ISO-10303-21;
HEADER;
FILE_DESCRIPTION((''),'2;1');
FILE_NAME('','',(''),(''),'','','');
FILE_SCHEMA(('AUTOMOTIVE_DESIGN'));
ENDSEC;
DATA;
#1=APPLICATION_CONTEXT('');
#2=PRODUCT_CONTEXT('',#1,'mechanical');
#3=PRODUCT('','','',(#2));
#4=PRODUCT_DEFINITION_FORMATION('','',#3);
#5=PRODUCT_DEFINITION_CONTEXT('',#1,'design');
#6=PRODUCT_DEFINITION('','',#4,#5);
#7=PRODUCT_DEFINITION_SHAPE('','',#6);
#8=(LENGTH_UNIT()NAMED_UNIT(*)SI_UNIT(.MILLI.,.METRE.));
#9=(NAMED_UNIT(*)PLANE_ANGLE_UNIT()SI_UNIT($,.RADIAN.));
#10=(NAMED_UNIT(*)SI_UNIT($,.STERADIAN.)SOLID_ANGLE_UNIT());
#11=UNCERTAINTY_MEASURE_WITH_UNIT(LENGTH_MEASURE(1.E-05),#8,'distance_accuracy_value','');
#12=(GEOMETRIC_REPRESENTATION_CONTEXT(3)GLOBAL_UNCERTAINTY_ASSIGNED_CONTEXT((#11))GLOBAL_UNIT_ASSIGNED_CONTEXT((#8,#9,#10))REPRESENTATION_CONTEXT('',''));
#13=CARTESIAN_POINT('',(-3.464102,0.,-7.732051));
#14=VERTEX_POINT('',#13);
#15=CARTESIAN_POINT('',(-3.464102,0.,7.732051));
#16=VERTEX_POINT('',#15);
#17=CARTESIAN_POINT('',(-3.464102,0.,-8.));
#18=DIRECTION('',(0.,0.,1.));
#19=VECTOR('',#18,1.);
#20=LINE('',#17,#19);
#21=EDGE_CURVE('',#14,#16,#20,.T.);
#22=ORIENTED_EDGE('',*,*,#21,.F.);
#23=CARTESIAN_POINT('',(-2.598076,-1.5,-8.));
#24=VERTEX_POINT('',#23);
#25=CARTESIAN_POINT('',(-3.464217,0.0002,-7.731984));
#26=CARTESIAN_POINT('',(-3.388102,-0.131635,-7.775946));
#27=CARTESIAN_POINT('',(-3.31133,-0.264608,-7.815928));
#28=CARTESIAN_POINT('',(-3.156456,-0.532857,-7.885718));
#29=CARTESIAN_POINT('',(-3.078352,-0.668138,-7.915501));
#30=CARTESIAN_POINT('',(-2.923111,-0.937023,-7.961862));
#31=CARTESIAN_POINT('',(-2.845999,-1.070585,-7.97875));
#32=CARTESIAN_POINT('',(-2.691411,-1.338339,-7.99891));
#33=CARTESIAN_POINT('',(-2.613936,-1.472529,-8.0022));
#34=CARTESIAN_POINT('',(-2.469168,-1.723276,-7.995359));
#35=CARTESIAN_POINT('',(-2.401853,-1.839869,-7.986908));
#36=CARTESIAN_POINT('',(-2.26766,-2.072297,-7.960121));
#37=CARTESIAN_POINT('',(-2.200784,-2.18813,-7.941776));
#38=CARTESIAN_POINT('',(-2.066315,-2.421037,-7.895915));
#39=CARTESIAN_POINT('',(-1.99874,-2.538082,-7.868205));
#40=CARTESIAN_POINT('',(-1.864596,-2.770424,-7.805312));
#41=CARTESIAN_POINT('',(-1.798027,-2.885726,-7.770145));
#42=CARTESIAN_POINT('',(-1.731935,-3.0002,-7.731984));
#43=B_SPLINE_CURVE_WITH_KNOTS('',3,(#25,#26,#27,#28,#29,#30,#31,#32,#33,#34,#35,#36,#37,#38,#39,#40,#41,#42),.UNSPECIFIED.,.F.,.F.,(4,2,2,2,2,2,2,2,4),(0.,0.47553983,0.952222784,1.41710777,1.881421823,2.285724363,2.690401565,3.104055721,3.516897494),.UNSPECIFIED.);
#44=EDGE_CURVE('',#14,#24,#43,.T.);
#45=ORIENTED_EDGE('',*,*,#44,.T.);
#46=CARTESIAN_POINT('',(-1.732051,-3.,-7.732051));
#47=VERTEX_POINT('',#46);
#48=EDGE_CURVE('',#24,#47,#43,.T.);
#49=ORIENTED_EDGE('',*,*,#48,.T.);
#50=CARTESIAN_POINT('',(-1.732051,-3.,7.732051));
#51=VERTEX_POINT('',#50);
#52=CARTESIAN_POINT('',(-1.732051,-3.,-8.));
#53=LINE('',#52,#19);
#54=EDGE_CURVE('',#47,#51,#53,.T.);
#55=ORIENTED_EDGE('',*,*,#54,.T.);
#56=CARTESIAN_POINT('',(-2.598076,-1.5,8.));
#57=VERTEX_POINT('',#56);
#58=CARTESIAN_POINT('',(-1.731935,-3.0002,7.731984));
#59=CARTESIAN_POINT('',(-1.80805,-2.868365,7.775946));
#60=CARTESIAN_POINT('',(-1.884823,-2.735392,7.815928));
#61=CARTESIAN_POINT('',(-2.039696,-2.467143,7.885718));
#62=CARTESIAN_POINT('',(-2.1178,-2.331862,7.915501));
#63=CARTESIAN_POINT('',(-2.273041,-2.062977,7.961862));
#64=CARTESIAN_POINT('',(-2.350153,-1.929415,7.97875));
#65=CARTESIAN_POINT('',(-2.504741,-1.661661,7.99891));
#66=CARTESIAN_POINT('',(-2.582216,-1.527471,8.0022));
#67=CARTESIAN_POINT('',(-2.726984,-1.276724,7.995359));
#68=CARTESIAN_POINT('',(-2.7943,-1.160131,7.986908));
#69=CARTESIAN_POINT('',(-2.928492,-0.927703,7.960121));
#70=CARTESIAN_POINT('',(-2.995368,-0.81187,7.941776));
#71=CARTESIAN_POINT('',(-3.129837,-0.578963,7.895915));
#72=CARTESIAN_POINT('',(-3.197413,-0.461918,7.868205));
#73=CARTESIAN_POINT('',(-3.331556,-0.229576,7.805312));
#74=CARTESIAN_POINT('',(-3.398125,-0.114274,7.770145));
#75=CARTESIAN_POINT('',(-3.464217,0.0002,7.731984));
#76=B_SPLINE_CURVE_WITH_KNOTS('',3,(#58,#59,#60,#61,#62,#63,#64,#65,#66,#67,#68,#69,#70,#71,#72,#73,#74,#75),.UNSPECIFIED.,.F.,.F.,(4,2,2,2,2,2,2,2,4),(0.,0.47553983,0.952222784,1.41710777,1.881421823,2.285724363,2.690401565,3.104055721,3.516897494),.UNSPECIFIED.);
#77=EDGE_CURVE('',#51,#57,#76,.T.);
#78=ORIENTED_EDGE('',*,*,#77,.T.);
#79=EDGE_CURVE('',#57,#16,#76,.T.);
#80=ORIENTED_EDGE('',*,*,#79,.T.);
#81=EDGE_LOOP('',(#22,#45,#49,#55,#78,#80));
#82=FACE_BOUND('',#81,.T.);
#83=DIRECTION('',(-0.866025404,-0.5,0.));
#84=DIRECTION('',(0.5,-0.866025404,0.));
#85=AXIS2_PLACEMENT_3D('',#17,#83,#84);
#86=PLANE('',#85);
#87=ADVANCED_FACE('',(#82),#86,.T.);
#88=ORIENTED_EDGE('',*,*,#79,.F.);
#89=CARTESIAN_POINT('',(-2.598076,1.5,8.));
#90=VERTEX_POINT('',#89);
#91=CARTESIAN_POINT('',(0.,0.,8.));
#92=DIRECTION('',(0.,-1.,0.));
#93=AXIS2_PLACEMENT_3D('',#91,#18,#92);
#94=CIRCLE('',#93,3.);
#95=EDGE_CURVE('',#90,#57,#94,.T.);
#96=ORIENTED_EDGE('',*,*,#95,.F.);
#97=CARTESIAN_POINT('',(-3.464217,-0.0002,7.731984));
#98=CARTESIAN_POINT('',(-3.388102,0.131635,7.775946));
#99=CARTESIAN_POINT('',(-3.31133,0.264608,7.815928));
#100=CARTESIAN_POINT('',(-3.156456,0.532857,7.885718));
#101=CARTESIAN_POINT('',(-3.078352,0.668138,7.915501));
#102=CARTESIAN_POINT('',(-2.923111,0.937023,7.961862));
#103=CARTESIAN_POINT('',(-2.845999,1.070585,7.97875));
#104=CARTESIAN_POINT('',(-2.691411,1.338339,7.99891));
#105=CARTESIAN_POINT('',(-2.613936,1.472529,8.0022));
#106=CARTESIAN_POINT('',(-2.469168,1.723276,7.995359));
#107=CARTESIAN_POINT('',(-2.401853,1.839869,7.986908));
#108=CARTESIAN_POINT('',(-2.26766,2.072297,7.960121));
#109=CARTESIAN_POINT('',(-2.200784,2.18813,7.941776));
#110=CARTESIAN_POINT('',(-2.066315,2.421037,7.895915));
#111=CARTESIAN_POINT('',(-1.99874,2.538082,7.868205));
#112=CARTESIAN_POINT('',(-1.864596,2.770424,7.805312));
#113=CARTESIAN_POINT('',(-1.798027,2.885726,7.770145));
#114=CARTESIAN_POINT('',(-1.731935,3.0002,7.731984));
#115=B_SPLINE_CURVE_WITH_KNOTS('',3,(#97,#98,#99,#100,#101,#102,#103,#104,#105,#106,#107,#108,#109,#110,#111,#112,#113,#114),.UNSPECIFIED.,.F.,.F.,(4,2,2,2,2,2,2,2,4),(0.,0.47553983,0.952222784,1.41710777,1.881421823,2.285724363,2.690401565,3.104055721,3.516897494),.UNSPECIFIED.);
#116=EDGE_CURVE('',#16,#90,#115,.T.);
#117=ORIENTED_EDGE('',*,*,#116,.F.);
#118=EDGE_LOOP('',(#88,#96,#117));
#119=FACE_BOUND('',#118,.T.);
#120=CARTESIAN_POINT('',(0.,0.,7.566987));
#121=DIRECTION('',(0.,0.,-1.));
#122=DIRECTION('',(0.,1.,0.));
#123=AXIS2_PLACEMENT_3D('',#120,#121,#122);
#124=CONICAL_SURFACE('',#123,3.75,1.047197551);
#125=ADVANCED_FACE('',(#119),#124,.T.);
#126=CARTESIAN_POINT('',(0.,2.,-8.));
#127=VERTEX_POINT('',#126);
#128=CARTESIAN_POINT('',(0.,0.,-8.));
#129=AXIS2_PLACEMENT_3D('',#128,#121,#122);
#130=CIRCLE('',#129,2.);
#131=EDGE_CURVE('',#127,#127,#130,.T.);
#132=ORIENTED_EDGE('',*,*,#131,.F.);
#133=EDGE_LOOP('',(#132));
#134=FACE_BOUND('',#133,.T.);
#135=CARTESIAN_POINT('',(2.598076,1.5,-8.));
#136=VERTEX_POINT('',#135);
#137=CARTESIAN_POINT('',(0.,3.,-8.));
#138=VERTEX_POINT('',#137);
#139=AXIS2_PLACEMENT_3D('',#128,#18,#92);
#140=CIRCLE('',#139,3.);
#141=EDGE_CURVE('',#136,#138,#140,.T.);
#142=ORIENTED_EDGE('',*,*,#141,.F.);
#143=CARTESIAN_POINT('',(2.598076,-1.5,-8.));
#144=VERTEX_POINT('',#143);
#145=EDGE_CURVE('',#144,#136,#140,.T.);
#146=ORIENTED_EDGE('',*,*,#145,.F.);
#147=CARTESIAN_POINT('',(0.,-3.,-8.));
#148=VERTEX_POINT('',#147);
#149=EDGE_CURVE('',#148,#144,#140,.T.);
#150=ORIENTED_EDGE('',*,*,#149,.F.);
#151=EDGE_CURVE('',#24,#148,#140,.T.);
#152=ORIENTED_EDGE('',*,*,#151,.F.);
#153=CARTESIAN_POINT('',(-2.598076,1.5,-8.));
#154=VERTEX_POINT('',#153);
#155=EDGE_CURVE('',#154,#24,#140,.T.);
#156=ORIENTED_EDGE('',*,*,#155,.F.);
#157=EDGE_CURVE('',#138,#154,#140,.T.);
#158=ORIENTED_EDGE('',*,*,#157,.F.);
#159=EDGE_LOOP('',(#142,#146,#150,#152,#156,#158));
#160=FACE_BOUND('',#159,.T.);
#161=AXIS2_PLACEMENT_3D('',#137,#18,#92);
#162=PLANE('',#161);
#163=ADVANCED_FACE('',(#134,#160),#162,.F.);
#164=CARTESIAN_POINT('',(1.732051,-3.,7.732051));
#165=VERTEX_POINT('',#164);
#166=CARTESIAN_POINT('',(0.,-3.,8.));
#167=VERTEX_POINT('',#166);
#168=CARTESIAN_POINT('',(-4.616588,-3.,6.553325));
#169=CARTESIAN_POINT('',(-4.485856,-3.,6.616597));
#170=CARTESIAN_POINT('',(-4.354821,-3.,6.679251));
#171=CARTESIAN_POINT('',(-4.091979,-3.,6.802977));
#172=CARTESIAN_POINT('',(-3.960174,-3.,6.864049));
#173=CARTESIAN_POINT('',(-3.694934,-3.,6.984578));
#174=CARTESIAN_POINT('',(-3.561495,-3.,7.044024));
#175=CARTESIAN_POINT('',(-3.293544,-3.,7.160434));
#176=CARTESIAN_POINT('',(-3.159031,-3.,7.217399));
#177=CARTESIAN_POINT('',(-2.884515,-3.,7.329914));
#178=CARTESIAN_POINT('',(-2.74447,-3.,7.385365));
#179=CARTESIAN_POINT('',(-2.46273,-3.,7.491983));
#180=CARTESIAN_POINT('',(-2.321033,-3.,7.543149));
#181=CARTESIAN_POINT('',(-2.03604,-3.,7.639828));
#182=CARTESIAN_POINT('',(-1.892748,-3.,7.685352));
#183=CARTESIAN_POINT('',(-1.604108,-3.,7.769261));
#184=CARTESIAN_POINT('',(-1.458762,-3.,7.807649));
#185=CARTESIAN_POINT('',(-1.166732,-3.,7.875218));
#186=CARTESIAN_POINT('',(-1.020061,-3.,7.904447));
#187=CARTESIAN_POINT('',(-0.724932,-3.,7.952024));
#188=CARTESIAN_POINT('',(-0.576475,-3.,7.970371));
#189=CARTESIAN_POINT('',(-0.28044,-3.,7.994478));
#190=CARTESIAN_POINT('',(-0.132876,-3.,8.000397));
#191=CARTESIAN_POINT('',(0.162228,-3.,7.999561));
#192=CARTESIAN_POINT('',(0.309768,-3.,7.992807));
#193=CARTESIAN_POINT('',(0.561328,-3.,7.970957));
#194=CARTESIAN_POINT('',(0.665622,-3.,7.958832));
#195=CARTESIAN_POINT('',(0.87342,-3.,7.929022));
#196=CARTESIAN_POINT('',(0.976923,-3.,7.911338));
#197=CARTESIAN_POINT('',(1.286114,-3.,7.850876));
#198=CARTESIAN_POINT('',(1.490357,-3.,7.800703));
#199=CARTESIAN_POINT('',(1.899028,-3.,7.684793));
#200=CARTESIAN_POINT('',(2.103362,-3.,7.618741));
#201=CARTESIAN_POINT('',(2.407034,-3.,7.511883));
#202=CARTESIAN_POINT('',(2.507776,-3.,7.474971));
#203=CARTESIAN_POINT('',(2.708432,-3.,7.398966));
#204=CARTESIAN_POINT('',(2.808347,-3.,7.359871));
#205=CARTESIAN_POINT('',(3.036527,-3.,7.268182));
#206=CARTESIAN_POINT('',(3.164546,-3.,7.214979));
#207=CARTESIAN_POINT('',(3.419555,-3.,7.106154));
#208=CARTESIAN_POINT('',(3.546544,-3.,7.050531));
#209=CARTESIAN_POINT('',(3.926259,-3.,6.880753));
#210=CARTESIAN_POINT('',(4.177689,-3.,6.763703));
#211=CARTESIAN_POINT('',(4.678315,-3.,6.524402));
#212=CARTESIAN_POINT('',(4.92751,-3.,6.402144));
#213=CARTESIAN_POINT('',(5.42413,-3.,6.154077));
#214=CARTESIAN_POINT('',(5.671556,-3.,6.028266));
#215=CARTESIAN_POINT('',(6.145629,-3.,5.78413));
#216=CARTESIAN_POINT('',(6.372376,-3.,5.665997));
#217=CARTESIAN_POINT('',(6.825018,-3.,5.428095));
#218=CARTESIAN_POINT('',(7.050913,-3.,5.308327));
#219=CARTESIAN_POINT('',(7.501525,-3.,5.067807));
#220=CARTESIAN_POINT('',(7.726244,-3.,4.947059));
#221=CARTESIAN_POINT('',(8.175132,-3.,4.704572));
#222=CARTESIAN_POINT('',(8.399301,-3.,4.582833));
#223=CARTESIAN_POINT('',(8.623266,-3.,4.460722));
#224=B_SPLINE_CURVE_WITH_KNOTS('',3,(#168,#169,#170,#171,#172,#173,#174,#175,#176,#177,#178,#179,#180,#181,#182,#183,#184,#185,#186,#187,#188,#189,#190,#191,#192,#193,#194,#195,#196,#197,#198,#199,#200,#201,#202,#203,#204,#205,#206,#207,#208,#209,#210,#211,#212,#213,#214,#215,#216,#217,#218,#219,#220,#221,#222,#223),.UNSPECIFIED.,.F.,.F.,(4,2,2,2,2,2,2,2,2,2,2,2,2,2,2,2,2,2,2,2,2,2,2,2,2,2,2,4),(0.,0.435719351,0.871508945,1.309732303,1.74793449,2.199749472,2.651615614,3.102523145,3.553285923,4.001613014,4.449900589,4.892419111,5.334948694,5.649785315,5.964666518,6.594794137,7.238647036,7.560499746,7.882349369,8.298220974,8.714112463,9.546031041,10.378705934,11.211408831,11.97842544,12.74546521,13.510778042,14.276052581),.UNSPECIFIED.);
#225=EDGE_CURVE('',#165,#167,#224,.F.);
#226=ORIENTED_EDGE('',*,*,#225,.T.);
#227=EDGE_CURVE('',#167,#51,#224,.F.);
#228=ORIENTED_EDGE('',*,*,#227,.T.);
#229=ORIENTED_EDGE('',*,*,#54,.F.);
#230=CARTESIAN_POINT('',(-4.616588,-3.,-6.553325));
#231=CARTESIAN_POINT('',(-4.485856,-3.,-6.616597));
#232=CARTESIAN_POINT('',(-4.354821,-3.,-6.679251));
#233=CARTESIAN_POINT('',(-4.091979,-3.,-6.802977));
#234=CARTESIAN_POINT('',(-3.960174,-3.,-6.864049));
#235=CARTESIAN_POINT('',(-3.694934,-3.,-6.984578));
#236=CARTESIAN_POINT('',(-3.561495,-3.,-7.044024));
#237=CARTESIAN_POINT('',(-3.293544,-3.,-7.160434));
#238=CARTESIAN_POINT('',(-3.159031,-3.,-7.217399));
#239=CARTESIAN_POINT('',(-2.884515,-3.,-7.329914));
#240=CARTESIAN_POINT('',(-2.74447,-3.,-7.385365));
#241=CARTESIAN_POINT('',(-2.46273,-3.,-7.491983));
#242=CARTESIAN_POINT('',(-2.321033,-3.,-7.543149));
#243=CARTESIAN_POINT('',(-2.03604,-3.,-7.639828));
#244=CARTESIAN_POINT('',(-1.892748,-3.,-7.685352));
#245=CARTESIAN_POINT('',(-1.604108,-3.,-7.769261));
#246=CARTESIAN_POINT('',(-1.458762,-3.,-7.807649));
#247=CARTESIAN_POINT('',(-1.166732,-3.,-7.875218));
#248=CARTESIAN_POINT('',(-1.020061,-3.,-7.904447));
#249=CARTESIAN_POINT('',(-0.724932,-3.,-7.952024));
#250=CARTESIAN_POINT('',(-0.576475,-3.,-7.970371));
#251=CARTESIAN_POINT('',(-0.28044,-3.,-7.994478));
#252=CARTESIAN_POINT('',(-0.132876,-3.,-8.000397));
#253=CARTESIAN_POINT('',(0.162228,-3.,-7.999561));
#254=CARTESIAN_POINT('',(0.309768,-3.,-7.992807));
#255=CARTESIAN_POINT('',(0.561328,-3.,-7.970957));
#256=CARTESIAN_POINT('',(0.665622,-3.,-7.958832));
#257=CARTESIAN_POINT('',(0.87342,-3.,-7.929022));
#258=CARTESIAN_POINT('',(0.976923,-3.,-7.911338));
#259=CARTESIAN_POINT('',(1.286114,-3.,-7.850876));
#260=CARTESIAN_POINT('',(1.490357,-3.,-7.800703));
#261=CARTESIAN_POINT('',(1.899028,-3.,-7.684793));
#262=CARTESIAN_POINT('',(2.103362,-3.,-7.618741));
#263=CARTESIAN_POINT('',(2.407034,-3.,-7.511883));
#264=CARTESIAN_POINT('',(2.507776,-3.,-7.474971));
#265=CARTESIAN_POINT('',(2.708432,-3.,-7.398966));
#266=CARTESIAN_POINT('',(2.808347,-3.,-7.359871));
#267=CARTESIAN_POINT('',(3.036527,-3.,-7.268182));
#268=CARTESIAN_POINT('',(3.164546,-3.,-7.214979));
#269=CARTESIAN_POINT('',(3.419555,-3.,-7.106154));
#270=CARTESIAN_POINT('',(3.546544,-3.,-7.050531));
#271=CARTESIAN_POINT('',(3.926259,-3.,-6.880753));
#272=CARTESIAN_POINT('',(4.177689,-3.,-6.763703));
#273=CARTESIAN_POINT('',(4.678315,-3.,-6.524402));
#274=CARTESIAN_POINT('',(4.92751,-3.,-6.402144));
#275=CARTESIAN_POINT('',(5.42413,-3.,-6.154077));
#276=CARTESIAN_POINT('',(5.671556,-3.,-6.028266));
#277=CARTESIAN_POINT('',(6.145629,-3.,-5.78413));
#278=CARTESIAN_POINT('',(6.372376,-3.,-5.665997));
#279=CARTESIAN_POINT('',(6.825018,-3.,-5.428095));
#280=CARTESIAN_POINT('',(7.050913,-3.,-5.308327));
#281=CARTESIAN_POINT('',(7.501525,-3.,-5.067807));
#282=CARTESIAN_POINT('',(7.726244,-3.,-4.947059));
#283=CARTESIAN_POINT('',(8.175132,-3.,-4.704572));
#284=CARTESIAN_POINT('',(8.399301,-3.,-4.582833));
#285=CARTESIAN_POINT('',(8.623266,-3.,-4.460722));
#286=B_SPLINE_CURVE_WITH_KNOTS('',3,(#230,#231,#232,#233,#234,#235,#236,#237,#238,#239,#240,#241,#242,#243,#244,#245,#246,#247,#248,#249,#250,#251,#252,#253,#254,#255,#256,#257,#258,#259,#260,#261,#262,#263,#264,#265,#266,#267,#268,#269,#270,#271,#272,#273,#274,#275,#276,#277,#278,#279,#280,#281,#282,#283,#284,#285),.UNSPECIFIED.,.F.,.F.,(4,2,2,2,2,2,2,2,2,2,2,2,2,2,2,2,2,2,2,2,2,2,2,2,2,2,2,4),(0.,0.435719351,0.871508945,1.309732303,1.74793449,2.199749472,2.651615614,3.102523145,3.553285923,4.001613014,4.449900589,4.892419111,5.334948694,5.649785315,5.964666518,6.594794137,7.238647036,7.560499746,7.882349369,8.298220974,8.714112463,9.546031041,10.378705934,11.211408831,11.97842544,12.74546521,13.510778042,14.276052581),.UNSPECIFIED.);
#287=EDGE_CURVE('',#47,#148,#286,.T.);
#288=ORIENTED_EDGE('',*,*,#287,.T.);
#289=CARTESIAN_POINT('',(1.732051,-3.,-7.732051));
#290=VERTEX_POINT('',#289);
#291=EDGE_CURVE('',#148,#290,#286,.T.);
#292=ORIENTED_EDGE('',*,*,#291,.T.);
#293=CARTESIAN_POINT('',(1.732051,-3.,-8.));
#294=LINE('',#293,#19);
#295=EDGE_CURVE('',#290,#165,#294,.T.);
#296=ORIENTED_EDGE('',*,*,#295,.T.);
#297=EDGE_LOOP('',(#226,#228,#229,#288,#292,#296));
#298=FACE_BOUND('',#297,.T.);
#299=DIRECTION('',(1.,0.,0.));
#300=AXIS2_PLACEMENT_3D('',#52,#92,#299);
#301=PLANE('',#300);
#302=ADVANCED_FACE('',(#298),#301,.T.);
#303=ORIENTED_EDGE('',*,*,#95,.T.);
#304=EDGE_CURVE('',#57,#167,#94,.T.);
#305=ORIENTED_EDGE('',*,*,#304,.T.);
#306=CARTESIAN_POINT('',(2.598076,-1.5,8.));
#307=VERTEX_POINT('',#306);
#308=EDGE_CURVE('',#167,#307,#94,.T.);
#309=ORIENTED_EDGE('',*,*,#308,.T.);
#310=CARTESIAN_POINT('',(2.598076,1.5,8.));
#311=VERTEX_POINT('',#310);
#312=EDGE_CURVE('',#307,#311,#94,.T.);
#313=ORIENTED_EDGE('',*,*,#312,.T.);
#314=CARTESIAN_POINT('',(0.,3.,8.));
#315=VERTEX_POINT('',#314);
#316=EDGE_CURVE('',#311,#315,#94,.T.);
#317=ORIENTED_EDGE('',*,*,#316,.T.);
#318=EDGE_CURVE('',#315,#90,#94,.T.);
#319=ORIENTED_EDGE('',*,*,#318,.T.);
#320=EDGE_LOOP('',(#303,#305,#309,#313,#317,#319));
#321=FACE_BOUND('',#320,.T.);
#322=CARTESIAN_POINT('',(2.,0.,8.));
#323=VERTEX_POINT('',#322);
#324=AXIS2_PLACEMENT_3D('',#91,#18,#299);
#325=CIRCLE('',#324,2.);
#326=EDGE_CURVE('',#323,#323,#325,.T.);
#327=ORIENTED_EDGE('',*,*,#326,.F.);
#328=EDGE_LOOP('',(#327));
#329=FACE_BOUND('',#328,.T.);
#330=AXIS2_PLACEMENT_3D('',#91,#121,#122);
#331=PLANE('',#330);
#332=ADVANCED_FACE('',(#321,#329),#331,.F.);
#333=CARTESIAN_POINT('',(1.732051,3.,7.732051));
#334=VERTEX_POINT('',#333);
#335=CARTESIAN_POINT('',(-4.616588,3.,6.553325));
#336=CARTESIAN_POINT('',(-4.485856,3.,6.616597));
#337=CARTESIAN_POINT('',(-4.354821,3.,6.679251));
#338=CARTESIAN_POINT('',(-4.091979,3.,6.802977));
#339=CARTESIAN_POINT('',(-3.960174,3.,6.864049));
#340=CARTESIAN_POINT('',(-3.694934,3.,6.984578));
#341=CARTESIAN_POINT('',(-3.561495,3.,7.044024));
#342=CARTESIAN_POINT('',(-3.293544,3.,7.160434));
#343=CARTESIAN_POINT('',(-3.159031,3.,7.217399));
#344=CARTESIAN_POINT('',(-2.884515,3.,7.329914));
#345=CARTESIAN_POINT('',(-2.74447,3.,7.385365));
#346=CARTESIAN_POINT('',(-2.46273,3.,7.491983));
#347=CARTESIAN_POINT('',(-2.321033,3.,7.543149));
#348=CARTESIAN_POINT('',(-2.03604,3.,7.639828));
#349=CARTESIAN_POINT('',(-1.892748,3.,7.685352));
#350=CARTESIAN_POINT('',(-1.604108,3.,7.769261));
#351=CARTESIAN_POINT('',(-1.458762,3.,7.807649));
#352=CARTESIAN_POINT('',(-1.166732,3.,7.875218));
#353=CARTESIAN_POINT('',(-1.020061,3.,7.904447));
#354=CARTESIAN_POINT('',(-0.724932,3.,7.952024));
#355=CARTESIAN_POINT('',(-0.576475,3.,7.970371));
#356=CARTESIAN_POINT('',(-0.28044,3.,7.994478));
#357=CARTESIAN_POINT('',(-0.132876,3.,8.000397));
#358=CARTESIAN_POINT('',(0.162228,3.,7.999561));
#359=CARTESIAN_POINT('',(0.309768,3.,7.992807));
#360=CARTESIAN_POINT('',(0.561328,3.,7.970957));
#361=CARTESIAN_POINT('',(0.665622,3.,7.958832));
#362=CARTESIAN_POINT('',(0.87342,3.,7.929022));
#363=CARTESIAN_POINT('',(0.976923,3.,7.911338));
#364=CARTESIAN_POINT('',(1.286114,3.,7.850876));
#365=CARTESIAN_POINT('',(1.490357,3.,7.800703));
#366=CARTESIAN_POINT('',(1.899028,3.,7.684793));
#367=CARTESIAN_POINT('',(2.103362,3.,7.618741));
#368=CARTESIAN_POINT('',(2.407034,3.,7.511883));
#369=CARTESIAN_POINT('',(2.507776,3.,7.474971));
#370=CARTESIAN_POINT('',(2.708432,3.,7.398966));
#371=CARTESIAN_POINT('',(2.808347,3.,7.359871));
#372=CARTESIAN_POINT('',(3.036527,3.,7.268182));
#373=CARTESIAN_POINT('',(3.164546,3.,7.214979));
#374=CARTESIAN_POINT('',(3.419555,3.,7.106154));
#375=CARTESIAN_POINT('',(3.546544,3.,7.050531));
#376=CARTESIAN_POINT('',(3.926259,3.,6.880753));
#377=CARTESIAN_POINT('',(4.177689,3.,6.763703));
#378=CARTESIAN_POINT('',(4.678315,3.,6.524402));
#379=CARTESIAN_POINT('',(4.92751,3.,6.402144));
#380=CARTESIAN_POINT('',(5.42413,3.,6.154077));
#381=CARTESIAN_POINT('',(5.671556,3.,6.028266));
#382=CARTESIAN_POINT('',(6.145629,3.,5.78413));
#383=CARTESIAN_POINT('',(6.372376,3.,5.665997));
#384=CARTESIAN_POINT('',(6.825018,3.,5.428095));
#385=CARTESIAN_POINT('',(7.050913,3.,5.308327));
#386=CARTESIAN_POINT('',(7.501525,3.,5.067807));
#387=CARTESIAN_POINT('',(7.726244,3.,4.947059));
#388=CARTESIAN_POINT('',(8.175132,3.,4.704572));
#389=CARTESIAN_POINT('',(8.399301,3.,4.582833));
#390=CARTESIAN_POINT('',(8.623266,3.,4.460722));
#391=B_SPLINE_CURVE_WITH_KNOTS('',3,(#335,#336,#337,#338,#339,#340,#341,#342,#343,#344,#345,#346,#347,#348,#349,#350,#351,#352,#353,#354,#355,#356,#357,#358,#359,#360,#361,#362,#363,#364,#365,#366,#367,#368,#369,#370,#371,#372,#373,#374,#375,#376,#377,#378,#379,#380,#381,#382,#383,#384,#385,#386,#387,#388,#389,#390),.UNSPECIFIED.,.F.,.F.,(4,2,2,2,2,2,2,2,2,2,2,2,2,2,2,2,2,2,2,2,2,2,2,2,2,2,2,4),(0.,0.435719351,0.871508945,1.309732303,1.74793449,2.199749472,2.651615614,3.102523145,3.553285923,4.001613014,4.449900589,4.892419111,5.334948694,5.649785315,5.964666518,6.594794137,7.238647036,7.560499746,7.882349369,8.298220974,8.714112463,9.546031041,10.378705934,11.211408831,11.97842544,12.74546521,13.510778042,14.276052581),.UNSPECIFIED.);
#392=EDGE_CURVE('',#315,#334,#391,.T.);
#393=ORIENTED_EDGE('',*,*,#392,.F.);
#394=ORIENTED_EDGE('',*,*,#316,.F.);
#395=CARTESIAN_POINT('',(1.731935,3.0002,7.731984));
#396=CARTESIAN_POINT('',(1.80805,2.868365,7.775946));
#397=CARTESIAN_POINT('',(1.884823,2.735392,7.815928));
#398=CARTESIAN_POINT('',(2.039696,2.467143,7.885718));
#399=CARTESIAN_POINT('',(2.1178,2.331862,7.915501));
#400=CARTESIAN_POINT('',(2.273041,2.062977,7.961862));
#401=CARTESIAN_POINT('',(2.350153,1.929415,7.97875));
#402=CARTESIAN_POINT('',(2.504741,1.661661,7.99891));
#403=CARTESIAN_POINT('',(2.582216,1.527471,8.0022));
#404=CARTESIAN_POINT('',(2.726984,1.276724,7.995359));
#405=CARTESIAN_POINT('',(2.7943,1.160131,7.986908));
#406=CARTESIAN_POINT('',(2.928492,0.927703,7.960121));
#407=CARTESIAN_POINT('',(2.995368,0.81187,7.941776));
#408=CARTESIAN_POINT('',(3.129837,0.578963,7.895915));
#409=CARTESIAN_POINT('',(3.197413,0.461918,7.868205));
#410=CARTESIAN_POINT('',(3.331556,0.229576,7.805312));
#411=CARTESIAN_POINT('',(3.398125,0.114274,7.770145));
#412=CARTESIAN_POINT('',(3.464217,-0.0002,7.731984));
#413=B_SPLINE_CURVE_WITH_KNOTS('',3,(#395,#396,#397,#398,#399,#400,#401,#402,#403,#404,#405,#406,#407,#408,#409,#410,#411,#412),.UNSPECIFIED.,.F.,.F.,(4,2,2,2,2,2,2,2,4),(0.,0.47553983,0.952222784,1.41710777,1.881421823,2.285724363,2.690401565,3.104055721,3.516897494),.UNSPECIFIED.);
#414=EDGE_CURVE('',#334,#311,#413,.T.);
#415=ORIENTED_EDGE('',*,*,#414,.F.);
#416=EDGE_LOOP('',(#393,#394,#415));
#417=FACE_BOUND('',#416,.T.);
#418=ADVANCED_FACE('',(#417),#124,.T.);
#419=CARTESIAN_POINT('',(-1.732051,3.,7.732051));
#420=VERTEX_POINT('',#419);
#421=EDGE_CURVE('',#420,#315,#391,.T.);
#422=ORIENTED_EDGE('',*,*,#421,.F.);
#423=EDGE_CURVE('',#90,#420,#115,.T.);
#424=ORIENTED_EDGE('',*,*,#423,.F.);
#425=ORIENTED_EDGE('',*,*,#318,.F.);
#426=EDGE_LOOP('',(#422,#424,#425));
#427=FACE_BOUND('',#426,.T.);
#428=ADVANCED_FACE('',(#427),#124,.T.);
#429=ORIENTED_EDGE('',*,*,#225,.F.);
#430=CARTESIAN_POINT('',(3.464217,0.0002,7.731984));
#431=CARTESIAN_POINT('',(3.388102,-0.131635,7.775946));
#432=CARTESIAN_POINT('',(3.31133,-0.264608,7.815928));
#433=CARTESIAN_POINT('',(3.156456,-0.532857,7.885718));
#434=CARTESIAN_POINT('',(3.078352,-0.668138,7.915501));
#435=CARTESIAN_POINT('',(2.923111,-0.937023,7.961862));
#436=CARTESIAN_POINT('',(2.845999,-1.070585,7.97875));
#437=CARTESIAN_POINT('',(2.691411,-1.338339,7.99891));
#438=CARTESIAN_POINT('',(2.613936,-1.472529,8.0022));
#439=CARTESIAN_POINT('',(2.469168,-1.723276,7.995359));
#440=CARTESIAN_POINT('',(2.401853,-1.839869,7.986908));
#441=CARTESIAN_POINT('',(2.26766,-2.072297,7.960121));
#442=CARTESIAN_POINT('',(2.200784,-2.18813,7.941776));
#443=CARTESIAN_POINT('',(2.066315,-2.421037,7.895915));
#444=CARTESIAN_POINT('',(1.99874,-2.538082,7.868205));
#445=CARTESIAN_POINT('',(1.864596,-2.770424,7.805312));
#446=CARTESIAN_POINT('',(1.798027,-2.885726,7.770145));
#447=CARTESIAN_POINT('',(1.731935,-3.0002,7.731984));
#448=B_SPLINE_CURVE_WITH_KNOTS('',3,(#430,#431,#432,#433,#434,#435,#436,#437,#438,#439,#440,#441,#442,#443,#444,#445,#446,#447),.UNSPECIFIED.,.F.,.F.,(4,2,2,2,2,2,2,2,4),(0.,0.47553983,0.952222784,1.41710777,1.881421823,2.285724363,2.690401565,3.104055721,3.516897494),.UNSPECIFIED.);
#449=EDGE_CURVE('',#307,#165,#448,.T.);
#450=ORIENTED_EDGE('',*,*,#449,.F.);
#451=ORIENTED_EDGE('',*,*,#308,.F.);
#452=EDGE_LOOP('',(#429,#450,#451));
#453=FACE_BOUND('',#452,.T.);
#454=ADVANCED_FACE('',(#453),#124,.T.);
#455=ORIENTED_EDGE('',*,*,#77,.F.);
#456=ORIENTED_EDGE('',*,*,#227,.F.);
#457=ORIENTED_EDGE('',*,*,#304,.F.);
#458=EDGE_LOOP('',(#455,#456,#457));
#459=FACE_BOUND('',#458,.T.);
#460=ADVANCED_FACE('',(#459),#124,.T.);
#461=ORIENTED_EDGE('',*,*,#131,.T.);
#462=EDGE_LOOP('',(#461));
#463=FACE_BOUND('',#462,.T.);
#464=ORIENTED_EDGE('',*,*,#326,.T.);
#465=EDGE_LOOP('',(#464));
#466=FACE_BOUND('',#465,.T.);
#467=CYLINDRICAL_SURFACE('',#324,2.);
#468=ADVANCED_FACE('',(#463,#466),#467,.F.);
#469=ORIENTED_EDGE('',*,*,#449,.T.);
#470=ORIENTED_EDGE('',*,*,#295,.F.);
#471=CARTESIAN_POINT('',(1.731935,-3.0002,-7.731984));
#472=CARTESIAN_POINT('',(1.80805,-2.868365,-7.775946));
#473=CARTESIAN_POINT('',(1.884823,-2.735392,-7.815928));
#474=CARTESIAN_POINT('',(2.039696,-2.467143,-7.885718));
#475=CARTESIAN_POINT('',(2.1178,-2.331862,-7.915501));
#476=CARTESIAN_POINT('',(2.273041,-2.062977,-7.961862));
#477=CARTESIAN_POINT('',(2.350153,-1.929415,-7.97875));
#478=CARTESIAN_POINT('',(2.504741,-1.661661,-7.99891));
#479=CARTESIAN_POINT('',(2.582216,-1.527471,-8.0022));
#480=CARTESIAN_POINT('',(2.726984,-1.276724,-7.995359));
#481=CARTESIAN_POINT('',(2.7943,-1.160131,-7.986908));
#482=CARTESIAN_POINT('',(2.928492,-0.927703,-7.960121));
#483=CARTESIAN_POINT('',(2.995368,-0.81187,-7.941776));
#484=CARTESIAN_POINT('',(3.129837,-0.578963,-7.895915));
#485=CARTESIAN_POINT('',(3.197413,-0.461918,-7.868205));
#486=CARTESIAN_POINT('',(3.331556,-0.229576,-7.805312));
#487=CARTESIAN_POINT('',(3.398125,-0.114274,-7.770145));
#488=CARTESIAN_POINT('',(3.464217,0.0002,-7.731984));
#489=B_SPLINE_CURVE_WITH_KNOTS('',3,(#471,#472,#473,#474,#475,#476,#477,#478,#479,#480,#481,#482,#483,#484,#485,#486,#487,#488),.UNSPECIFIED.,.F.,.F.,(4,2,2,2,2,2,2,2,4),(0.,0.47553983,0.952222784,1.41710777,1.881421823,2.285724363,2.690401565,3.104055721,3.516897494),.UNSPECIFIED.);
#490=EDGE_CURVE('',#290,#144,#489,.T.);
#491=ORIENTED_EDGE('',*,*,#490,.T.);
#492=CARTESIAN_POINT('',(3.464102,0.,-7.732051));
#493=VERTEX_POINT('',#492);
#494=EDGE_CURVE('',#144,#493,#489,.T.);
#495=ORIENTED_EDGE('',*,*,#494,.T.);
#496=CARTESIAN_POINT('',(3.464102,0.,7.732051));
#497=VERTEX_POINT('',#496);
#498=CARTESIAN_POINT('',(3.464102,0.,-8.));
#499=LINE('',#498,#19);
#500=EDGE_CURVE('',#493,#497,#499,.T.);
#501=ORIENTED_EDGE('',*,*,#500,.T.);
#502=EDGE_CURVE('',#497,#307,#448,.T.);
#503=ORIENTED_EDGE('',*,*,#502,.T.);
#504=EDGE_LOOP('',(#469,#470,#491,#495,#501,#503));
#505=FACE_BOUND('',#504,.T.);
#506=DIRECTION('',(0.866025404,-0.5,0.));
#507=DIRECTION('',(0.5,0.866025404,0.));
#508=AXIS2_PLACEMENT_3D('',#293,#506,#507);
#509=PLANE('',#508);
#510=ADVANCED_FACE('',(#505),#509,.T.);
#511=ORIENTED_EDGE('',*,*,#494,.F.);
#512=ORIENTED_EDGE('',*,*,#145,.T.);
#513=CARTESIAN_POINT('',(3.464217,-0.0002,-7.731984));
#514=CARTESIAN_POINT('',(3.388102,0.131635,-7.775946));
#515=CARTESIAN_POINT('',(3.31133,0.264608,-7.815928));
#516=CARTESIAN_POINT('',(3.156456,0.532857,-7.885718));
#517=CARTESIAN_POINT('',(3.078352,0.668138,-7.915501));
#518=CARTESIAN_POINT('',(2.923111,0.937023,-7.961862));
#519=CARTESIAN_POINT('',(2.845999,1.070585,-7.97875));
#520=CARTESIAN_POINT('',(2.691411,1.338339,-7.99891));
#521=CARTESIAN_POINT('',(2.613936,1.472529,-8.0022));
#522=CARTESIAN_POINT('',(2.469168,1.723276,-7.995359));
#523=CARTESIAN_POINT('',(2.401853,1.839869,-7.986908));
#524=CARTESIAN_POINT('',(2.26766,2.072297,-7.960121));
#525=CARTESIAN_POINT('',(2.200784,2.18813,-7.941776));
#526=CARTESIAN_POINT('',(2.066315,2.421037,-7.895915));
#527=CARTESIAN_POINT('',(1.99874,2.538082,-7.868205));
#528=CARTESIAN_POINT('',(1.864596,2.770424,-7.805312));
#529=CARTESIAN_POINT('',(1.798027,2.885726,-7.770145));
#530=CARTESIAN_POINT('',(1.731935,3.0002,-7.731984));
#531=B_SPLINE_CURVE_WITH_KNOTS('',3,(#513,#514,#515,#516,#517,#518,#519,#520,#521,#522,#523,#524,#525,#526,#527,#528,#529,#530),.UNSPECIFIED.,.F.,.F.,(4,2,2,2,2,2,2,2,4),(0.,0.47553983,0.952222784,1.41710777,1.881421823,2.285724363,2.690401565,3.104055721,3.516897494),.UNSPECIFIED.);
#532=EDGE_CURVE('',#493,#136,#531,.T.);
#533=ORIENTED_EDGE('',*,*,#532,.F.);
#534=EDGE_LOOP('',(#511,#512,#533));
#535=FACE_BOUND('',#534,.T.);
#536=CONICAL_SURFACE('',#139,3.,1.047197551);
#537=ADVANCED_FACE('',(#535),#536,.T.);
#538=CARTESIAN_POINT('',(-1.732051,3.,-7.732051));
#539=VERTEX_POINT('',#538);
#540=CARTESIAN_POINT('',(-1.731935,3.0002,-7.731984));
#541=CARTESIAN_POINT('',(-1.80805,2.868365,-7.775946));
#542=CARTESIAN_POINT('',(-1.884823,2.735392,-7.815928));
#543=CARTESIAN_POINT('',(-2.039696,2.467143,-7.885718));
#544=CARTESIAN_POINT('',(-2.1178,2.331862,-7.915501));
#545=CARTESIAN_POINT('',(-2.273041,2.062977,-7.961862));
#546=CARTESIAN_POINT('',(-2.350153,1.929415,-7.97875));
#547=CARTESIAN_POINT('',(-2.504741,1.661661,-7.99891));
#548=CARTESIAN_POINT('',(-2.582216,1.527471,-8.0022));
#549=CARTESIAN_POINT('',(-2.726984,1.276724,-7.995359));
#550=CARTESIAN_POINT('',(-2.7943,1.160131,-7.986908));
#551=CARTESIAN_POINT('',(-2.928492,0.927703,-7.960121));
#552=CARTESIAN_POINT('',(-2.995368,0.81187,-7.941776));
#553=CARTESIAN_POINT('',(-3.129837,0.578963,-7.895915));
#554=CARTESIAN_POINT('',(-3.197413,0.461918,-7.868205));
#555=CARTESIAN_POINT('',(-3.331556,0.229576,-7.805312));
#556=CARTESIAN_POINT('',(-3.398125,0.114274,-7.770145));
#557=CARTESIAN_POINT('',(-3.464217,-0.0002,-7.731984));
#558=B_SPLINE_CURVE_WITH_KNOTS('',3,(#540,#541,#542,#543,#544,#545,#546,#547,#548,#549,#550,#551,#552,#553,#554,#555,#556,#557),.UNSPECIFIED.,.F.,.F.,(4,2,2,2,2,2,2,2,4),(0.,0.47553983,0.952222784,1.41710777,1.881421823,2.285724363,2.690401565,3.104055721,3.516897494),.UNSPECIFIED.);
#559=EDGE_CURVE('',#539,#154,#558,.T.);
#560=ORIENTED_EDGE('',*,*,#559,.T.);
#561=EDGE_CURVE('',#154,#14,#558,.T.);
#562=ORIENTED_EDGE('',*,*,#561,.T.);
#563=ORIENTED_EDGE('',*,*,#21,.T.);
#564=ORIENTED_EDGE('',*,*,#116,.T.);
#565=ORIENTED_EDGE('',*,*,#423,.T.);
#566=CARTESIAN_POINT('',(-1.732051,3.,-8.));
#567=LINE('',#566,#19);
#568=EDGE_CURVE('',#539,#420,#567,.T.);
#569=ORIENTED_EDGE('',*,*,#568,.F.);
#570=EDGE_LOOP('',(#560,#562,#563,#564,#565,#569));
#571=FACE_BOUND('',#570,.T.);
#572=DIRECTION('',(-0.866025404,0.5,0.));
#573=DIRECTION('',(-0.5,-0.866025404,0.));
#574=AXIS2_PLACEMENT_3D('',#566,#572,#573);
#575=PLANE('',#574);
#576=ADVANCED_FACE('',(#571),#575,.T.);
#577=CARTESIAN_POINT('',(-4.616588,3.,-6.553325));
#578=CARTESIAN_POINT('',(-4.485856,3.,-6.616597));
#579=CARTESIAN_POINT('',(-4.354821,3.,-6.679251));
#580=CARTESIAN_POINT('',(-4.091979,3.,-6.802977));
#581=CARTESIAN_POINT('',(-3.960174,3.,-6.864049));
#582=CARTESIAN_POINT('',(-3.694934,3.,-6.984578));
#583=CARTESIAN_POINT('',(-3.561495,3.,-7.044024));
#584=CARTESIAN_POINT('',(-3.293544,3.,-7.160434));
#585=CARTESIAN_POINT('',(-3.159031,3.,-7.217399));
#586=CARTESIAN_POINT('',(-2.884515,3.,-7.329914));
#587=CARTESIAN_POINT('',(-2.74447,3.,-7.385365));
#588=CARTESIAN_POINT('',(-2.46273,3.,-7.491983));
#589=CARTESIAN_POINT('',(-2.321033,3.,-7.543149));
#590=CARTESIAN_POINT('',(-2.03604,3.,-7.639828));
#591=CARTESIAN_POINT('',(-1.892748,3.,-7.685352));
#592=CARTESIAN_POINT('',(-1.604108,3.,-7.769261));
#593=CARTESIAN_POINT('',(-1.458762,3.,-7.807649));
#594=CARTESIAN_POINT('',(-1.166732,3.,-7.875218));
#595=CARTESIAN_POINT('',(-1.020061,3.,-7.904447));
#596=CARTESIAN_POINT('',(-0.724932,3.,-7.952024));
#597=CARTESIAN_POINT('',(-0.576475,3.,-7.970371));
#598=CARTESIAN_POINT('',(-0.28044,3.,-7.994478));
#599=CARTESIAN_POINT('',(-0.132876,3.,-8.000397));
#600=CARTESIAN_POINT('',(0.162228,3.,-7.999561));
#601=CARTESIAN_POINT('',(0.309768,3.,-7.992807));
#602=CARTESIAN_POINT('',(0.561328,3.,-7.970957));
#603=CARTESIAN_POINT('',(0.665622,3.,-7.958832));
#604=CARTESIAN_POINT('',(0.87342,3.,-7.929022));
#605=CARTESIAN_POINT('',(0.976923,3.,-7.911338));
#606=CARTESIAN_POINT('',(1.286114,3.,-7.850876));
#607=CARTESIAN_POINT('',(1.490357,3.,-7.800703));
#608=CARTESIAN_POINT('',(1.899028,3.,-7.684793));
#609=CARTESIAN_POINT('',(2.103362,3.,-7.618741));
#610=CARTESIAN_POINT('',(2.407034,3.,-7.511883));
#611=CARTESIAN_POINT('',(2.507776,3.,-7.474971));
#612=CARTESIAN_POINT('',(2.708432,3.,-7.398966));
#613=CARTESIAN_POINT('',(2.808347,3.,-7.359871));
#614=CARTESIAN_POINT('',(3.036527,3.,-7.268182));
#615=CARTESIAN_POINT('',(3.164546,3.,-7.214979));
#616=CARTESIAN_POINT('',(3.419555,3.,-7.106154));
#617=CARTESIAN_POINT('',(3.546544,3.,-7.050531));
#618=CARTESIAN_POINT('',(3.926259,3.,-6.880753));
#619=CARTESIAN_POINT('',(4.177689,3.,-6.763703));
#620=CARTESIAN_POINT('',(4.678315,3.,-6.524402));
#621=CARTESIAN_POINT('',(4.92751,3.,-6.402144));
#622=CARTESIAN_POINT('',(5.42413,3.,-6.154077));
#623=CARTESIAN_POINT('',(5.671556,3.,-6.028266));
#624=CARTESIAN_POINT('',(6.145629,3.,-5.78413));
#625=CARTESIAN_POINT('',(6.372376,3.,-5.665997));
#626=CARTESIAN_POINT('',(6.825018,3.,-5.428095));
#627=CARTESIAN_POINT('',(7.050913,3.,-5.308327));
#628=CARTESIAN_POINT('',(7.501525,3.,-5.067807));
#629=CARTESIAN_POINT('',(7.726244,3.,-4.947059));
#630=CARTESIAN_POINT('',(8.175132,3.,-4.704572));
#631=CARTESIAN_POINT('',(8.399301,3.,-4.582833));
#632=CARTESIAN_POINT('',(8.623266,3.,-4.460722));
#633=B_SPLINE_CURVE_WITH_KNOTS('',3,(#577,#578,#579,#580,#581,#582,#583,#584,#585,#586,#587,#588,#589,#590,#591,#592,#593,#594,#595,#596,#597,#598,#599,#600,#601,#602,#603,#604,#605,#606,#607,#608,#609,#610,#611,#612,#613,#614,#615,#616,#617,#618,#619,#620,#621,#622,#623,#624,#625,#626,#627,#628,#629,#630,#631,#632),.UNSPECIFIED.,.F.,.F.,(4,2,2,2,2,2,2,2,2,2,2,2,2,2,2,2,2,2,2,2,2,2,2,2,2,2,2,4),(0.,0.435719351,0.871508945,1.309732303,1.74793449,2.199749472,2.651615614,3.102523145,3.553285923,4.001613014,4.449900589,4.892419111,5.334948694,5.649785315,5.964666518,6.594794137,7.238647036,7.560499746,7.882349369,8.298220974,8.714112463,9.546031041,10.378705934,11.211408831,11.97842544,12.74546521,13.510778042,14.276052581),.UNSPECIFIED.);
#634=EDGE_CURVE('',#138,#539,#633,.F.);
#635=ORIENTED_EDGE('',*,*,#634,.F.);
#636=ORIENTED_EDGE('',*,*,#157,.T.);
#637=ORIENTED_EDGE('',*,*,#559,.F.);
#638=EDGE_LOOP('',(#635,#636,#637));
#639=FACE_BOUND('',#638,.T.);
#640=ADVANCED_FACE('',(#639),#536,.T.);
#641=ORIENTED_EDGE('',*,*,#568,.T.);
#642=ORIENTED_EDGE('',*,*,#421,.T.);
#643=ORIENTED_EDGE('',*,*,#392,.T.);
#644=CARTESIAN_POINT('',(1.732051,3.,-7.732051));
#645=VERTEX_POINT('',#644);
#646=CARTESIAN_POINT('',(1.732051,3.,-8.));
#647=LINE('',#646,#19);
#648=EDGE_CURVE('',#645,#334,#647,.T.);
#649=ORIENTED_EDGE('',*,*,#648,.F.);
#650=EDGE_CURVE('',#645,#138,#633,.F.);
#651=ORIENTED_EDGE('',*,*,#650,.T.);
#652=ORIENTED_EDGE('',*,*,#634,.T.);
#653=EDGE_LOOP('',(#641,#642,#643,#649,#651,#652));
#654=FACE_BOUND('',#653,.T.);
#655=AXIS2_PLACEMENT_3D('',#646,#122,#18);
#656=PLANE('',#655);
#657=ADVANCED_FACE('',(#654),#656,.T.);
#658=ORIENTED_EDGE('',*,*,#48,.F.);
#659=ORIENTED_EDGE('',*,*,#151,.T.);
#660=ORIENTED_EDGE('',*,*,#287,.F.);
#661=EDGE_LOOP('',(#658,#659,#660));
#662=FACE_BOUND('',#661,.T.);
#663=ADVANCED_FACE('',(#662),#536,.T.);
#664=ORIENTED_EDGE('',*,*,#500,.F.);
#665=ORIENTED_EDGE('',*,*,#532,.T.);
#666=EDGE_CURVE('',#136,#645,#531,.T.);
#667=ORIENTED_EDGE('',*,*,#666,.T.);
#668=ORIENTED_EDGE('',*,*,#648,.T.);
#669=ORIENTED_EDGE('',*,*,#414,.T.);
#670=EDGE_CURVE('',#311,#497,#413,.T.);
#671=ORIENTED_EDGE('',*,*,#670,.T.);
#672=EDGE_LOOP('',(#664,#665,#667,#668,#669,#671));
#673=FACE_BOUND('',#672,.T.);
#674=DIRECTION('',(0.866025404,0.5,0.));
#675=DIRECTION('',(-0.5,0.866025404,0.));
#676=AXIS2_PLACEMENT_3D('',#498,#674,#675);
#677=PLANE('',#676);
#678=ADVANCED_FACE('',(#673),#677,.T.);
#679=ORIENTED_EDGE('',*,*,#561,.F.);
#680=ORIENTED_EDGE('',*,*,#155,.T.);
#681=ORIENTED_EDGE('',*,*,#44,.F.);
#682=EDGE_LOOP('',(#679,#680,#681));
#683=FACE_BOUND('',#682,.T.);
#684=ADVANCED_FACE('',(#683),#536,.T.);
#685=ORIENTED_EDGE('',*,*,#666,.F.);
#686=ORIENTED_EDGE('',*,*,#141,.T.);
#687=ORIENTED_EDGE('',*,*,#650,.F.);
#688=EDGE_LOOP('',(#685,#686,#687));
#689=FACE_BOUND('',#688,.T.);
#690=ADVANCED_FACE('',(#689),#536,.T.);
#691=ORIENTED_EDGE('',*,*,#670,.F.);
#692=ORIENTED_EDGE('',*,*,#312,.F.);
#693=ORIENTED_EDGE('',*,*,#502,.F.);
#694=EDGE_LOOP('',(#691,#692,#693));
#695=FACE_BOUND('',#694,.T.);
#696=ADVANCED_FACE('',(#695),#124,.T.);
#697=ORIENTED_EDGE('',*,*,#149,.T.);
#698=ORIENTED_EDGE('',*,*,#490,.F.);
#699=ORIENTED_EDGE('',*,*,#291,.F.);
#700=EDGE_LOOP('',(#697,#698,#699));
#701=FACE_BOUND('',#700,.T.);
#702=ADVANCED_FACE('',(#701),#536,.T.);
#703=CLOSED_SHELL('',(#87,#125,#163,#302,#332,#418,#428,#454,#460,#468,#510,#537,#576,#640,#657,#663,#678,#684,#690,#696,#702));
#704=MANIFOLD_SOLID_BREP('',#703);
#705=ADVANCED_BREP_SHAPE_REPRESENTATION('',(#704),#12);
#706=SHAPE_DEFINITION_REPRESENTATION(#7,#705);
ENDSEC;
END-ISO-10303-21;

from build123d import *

# Parameters (mm, degrees)
SKETCH2_OUTSIDE_W               = 13.34
SKETCH2_OUTSIDE_H               = 13.34
CUT_EXTRUDE1_DEPTH              = 17.856007831
M4X0_7_TAPPED_HOLE1_D           = 3.3
M4X0_7_TAPPED_HOLE1_DEPTH       = 14.5
M4X0_7_TAPPED_HOLE1_CBORE_D     = 4
M4X0_7_TAPPED_HOLE1_CBORE_DEPTH = 13.1
M4X0_7_TAPPED_HOLE1_TIP         = 0.991420021
M4X0_7_TAPPED_HOLE2_D           = 3.3
M4X0_7_TAPPED_HOLE2_DEPTH       = 12.5
M4X0_7_TAPPED_HOLE2_CBORE_D     = 4
M4X0_7_TAPPED_HOLE2_CBORE_DEPTH = 11.1
M4X0_7_TAPPED_HOLE2_TIP         = 0.991420021


with BuildPart() as part:
    # Sketch1 → Revolve1 (revolve)
    with BuildSketch(Plane(origin=(0, 0, 0), x_dir=(0, 0, -1), z_dir=(1, 0, 0))):
        Polygon((-8, 0), (-8, 3), (-7.566987298, 3.75), (7.566987298, 3.75), (8, 3), (8, 0), align=None)
    revolve(axis=Axis((0, 0, 5.584882278), (0, 0, -1)))

    # Sketch2 outside → Cut-Extrude1 (cut, through all)
    with BuildSketch(Plane.XY.offset(8)):
        Rectangle(SKETCH2_OUTSIDE_W, SKETCH2_OUTSIDE_H)
        Polygon((1.732050808, -3), (3.464101615, 0), (1.732050808, 3), (-1.732050808, 3), (-3.464101615, 0), (-1.732050808, -3), align=None, mode=Mode.SUBTRACT)
    extrude(amount=-CUT_EXTRUDE1_DEPTH, mode=Mode.SUBTRACT)

    # M4x0.7 Tapped Hole1
    with Locations(Plane.XY.offset(8)):
        with Locations((0, 0)):
            CounterBoreHole(M4X0_7_TAPPED_HOLE1_D / 2, M4X0_7_TAPPED_HOLE1_CBORE_D / 2, M4X0_7_TAPPED_HOLE1_CBORE_DEPTH, depth=M4X0_7_TAPPED_HOLE1_DEPTH)
            with Locations((0, 0, -(M4X0_7_TAPPED_HOLE1_DEPTH + M4X0_7_TAPPED_HOLE1_TIP / 2))):  # 118° drill point
                Cone(0, M4X0_7_TAPPED_HOLE1_D / 2, M4X0_7_TAPPED_HOLE1_TIP, mode=Mode.SUBTRACT)

    # M4x0.7 Tapped Hole2
    with Locations(Plane(origin=(0, 0, -8), x_dir=(-1, 0, 0), z_dir=(0, 0, -1))):
        with Locations((0, 0)):
            CounterBoreHole(M4X0_7_TAPPED_HOLE2_D / 2, M4X0_7_TAPPED_HOLE2_CBORE_D / 2, M4X0_7_TAPPED_HOLE2_CBORE_DEPTH, depth=M4X0_7_TAPPED_HOLE2_DEPTH)
            with Locations((0, 0, -(M4X0_7_TAPPED_HOLE2_DEPTH + M4X0_7_TAPPED_HOLE2_TIP / 2))):  # 118° drill point
                Cone(0, M4X0_7_TAPPED_HOLE2_D / 2, M4X0_7_TAPPED_HOLE2_TIP, mode=Mode.SUBTRACT)


solid = part.part
